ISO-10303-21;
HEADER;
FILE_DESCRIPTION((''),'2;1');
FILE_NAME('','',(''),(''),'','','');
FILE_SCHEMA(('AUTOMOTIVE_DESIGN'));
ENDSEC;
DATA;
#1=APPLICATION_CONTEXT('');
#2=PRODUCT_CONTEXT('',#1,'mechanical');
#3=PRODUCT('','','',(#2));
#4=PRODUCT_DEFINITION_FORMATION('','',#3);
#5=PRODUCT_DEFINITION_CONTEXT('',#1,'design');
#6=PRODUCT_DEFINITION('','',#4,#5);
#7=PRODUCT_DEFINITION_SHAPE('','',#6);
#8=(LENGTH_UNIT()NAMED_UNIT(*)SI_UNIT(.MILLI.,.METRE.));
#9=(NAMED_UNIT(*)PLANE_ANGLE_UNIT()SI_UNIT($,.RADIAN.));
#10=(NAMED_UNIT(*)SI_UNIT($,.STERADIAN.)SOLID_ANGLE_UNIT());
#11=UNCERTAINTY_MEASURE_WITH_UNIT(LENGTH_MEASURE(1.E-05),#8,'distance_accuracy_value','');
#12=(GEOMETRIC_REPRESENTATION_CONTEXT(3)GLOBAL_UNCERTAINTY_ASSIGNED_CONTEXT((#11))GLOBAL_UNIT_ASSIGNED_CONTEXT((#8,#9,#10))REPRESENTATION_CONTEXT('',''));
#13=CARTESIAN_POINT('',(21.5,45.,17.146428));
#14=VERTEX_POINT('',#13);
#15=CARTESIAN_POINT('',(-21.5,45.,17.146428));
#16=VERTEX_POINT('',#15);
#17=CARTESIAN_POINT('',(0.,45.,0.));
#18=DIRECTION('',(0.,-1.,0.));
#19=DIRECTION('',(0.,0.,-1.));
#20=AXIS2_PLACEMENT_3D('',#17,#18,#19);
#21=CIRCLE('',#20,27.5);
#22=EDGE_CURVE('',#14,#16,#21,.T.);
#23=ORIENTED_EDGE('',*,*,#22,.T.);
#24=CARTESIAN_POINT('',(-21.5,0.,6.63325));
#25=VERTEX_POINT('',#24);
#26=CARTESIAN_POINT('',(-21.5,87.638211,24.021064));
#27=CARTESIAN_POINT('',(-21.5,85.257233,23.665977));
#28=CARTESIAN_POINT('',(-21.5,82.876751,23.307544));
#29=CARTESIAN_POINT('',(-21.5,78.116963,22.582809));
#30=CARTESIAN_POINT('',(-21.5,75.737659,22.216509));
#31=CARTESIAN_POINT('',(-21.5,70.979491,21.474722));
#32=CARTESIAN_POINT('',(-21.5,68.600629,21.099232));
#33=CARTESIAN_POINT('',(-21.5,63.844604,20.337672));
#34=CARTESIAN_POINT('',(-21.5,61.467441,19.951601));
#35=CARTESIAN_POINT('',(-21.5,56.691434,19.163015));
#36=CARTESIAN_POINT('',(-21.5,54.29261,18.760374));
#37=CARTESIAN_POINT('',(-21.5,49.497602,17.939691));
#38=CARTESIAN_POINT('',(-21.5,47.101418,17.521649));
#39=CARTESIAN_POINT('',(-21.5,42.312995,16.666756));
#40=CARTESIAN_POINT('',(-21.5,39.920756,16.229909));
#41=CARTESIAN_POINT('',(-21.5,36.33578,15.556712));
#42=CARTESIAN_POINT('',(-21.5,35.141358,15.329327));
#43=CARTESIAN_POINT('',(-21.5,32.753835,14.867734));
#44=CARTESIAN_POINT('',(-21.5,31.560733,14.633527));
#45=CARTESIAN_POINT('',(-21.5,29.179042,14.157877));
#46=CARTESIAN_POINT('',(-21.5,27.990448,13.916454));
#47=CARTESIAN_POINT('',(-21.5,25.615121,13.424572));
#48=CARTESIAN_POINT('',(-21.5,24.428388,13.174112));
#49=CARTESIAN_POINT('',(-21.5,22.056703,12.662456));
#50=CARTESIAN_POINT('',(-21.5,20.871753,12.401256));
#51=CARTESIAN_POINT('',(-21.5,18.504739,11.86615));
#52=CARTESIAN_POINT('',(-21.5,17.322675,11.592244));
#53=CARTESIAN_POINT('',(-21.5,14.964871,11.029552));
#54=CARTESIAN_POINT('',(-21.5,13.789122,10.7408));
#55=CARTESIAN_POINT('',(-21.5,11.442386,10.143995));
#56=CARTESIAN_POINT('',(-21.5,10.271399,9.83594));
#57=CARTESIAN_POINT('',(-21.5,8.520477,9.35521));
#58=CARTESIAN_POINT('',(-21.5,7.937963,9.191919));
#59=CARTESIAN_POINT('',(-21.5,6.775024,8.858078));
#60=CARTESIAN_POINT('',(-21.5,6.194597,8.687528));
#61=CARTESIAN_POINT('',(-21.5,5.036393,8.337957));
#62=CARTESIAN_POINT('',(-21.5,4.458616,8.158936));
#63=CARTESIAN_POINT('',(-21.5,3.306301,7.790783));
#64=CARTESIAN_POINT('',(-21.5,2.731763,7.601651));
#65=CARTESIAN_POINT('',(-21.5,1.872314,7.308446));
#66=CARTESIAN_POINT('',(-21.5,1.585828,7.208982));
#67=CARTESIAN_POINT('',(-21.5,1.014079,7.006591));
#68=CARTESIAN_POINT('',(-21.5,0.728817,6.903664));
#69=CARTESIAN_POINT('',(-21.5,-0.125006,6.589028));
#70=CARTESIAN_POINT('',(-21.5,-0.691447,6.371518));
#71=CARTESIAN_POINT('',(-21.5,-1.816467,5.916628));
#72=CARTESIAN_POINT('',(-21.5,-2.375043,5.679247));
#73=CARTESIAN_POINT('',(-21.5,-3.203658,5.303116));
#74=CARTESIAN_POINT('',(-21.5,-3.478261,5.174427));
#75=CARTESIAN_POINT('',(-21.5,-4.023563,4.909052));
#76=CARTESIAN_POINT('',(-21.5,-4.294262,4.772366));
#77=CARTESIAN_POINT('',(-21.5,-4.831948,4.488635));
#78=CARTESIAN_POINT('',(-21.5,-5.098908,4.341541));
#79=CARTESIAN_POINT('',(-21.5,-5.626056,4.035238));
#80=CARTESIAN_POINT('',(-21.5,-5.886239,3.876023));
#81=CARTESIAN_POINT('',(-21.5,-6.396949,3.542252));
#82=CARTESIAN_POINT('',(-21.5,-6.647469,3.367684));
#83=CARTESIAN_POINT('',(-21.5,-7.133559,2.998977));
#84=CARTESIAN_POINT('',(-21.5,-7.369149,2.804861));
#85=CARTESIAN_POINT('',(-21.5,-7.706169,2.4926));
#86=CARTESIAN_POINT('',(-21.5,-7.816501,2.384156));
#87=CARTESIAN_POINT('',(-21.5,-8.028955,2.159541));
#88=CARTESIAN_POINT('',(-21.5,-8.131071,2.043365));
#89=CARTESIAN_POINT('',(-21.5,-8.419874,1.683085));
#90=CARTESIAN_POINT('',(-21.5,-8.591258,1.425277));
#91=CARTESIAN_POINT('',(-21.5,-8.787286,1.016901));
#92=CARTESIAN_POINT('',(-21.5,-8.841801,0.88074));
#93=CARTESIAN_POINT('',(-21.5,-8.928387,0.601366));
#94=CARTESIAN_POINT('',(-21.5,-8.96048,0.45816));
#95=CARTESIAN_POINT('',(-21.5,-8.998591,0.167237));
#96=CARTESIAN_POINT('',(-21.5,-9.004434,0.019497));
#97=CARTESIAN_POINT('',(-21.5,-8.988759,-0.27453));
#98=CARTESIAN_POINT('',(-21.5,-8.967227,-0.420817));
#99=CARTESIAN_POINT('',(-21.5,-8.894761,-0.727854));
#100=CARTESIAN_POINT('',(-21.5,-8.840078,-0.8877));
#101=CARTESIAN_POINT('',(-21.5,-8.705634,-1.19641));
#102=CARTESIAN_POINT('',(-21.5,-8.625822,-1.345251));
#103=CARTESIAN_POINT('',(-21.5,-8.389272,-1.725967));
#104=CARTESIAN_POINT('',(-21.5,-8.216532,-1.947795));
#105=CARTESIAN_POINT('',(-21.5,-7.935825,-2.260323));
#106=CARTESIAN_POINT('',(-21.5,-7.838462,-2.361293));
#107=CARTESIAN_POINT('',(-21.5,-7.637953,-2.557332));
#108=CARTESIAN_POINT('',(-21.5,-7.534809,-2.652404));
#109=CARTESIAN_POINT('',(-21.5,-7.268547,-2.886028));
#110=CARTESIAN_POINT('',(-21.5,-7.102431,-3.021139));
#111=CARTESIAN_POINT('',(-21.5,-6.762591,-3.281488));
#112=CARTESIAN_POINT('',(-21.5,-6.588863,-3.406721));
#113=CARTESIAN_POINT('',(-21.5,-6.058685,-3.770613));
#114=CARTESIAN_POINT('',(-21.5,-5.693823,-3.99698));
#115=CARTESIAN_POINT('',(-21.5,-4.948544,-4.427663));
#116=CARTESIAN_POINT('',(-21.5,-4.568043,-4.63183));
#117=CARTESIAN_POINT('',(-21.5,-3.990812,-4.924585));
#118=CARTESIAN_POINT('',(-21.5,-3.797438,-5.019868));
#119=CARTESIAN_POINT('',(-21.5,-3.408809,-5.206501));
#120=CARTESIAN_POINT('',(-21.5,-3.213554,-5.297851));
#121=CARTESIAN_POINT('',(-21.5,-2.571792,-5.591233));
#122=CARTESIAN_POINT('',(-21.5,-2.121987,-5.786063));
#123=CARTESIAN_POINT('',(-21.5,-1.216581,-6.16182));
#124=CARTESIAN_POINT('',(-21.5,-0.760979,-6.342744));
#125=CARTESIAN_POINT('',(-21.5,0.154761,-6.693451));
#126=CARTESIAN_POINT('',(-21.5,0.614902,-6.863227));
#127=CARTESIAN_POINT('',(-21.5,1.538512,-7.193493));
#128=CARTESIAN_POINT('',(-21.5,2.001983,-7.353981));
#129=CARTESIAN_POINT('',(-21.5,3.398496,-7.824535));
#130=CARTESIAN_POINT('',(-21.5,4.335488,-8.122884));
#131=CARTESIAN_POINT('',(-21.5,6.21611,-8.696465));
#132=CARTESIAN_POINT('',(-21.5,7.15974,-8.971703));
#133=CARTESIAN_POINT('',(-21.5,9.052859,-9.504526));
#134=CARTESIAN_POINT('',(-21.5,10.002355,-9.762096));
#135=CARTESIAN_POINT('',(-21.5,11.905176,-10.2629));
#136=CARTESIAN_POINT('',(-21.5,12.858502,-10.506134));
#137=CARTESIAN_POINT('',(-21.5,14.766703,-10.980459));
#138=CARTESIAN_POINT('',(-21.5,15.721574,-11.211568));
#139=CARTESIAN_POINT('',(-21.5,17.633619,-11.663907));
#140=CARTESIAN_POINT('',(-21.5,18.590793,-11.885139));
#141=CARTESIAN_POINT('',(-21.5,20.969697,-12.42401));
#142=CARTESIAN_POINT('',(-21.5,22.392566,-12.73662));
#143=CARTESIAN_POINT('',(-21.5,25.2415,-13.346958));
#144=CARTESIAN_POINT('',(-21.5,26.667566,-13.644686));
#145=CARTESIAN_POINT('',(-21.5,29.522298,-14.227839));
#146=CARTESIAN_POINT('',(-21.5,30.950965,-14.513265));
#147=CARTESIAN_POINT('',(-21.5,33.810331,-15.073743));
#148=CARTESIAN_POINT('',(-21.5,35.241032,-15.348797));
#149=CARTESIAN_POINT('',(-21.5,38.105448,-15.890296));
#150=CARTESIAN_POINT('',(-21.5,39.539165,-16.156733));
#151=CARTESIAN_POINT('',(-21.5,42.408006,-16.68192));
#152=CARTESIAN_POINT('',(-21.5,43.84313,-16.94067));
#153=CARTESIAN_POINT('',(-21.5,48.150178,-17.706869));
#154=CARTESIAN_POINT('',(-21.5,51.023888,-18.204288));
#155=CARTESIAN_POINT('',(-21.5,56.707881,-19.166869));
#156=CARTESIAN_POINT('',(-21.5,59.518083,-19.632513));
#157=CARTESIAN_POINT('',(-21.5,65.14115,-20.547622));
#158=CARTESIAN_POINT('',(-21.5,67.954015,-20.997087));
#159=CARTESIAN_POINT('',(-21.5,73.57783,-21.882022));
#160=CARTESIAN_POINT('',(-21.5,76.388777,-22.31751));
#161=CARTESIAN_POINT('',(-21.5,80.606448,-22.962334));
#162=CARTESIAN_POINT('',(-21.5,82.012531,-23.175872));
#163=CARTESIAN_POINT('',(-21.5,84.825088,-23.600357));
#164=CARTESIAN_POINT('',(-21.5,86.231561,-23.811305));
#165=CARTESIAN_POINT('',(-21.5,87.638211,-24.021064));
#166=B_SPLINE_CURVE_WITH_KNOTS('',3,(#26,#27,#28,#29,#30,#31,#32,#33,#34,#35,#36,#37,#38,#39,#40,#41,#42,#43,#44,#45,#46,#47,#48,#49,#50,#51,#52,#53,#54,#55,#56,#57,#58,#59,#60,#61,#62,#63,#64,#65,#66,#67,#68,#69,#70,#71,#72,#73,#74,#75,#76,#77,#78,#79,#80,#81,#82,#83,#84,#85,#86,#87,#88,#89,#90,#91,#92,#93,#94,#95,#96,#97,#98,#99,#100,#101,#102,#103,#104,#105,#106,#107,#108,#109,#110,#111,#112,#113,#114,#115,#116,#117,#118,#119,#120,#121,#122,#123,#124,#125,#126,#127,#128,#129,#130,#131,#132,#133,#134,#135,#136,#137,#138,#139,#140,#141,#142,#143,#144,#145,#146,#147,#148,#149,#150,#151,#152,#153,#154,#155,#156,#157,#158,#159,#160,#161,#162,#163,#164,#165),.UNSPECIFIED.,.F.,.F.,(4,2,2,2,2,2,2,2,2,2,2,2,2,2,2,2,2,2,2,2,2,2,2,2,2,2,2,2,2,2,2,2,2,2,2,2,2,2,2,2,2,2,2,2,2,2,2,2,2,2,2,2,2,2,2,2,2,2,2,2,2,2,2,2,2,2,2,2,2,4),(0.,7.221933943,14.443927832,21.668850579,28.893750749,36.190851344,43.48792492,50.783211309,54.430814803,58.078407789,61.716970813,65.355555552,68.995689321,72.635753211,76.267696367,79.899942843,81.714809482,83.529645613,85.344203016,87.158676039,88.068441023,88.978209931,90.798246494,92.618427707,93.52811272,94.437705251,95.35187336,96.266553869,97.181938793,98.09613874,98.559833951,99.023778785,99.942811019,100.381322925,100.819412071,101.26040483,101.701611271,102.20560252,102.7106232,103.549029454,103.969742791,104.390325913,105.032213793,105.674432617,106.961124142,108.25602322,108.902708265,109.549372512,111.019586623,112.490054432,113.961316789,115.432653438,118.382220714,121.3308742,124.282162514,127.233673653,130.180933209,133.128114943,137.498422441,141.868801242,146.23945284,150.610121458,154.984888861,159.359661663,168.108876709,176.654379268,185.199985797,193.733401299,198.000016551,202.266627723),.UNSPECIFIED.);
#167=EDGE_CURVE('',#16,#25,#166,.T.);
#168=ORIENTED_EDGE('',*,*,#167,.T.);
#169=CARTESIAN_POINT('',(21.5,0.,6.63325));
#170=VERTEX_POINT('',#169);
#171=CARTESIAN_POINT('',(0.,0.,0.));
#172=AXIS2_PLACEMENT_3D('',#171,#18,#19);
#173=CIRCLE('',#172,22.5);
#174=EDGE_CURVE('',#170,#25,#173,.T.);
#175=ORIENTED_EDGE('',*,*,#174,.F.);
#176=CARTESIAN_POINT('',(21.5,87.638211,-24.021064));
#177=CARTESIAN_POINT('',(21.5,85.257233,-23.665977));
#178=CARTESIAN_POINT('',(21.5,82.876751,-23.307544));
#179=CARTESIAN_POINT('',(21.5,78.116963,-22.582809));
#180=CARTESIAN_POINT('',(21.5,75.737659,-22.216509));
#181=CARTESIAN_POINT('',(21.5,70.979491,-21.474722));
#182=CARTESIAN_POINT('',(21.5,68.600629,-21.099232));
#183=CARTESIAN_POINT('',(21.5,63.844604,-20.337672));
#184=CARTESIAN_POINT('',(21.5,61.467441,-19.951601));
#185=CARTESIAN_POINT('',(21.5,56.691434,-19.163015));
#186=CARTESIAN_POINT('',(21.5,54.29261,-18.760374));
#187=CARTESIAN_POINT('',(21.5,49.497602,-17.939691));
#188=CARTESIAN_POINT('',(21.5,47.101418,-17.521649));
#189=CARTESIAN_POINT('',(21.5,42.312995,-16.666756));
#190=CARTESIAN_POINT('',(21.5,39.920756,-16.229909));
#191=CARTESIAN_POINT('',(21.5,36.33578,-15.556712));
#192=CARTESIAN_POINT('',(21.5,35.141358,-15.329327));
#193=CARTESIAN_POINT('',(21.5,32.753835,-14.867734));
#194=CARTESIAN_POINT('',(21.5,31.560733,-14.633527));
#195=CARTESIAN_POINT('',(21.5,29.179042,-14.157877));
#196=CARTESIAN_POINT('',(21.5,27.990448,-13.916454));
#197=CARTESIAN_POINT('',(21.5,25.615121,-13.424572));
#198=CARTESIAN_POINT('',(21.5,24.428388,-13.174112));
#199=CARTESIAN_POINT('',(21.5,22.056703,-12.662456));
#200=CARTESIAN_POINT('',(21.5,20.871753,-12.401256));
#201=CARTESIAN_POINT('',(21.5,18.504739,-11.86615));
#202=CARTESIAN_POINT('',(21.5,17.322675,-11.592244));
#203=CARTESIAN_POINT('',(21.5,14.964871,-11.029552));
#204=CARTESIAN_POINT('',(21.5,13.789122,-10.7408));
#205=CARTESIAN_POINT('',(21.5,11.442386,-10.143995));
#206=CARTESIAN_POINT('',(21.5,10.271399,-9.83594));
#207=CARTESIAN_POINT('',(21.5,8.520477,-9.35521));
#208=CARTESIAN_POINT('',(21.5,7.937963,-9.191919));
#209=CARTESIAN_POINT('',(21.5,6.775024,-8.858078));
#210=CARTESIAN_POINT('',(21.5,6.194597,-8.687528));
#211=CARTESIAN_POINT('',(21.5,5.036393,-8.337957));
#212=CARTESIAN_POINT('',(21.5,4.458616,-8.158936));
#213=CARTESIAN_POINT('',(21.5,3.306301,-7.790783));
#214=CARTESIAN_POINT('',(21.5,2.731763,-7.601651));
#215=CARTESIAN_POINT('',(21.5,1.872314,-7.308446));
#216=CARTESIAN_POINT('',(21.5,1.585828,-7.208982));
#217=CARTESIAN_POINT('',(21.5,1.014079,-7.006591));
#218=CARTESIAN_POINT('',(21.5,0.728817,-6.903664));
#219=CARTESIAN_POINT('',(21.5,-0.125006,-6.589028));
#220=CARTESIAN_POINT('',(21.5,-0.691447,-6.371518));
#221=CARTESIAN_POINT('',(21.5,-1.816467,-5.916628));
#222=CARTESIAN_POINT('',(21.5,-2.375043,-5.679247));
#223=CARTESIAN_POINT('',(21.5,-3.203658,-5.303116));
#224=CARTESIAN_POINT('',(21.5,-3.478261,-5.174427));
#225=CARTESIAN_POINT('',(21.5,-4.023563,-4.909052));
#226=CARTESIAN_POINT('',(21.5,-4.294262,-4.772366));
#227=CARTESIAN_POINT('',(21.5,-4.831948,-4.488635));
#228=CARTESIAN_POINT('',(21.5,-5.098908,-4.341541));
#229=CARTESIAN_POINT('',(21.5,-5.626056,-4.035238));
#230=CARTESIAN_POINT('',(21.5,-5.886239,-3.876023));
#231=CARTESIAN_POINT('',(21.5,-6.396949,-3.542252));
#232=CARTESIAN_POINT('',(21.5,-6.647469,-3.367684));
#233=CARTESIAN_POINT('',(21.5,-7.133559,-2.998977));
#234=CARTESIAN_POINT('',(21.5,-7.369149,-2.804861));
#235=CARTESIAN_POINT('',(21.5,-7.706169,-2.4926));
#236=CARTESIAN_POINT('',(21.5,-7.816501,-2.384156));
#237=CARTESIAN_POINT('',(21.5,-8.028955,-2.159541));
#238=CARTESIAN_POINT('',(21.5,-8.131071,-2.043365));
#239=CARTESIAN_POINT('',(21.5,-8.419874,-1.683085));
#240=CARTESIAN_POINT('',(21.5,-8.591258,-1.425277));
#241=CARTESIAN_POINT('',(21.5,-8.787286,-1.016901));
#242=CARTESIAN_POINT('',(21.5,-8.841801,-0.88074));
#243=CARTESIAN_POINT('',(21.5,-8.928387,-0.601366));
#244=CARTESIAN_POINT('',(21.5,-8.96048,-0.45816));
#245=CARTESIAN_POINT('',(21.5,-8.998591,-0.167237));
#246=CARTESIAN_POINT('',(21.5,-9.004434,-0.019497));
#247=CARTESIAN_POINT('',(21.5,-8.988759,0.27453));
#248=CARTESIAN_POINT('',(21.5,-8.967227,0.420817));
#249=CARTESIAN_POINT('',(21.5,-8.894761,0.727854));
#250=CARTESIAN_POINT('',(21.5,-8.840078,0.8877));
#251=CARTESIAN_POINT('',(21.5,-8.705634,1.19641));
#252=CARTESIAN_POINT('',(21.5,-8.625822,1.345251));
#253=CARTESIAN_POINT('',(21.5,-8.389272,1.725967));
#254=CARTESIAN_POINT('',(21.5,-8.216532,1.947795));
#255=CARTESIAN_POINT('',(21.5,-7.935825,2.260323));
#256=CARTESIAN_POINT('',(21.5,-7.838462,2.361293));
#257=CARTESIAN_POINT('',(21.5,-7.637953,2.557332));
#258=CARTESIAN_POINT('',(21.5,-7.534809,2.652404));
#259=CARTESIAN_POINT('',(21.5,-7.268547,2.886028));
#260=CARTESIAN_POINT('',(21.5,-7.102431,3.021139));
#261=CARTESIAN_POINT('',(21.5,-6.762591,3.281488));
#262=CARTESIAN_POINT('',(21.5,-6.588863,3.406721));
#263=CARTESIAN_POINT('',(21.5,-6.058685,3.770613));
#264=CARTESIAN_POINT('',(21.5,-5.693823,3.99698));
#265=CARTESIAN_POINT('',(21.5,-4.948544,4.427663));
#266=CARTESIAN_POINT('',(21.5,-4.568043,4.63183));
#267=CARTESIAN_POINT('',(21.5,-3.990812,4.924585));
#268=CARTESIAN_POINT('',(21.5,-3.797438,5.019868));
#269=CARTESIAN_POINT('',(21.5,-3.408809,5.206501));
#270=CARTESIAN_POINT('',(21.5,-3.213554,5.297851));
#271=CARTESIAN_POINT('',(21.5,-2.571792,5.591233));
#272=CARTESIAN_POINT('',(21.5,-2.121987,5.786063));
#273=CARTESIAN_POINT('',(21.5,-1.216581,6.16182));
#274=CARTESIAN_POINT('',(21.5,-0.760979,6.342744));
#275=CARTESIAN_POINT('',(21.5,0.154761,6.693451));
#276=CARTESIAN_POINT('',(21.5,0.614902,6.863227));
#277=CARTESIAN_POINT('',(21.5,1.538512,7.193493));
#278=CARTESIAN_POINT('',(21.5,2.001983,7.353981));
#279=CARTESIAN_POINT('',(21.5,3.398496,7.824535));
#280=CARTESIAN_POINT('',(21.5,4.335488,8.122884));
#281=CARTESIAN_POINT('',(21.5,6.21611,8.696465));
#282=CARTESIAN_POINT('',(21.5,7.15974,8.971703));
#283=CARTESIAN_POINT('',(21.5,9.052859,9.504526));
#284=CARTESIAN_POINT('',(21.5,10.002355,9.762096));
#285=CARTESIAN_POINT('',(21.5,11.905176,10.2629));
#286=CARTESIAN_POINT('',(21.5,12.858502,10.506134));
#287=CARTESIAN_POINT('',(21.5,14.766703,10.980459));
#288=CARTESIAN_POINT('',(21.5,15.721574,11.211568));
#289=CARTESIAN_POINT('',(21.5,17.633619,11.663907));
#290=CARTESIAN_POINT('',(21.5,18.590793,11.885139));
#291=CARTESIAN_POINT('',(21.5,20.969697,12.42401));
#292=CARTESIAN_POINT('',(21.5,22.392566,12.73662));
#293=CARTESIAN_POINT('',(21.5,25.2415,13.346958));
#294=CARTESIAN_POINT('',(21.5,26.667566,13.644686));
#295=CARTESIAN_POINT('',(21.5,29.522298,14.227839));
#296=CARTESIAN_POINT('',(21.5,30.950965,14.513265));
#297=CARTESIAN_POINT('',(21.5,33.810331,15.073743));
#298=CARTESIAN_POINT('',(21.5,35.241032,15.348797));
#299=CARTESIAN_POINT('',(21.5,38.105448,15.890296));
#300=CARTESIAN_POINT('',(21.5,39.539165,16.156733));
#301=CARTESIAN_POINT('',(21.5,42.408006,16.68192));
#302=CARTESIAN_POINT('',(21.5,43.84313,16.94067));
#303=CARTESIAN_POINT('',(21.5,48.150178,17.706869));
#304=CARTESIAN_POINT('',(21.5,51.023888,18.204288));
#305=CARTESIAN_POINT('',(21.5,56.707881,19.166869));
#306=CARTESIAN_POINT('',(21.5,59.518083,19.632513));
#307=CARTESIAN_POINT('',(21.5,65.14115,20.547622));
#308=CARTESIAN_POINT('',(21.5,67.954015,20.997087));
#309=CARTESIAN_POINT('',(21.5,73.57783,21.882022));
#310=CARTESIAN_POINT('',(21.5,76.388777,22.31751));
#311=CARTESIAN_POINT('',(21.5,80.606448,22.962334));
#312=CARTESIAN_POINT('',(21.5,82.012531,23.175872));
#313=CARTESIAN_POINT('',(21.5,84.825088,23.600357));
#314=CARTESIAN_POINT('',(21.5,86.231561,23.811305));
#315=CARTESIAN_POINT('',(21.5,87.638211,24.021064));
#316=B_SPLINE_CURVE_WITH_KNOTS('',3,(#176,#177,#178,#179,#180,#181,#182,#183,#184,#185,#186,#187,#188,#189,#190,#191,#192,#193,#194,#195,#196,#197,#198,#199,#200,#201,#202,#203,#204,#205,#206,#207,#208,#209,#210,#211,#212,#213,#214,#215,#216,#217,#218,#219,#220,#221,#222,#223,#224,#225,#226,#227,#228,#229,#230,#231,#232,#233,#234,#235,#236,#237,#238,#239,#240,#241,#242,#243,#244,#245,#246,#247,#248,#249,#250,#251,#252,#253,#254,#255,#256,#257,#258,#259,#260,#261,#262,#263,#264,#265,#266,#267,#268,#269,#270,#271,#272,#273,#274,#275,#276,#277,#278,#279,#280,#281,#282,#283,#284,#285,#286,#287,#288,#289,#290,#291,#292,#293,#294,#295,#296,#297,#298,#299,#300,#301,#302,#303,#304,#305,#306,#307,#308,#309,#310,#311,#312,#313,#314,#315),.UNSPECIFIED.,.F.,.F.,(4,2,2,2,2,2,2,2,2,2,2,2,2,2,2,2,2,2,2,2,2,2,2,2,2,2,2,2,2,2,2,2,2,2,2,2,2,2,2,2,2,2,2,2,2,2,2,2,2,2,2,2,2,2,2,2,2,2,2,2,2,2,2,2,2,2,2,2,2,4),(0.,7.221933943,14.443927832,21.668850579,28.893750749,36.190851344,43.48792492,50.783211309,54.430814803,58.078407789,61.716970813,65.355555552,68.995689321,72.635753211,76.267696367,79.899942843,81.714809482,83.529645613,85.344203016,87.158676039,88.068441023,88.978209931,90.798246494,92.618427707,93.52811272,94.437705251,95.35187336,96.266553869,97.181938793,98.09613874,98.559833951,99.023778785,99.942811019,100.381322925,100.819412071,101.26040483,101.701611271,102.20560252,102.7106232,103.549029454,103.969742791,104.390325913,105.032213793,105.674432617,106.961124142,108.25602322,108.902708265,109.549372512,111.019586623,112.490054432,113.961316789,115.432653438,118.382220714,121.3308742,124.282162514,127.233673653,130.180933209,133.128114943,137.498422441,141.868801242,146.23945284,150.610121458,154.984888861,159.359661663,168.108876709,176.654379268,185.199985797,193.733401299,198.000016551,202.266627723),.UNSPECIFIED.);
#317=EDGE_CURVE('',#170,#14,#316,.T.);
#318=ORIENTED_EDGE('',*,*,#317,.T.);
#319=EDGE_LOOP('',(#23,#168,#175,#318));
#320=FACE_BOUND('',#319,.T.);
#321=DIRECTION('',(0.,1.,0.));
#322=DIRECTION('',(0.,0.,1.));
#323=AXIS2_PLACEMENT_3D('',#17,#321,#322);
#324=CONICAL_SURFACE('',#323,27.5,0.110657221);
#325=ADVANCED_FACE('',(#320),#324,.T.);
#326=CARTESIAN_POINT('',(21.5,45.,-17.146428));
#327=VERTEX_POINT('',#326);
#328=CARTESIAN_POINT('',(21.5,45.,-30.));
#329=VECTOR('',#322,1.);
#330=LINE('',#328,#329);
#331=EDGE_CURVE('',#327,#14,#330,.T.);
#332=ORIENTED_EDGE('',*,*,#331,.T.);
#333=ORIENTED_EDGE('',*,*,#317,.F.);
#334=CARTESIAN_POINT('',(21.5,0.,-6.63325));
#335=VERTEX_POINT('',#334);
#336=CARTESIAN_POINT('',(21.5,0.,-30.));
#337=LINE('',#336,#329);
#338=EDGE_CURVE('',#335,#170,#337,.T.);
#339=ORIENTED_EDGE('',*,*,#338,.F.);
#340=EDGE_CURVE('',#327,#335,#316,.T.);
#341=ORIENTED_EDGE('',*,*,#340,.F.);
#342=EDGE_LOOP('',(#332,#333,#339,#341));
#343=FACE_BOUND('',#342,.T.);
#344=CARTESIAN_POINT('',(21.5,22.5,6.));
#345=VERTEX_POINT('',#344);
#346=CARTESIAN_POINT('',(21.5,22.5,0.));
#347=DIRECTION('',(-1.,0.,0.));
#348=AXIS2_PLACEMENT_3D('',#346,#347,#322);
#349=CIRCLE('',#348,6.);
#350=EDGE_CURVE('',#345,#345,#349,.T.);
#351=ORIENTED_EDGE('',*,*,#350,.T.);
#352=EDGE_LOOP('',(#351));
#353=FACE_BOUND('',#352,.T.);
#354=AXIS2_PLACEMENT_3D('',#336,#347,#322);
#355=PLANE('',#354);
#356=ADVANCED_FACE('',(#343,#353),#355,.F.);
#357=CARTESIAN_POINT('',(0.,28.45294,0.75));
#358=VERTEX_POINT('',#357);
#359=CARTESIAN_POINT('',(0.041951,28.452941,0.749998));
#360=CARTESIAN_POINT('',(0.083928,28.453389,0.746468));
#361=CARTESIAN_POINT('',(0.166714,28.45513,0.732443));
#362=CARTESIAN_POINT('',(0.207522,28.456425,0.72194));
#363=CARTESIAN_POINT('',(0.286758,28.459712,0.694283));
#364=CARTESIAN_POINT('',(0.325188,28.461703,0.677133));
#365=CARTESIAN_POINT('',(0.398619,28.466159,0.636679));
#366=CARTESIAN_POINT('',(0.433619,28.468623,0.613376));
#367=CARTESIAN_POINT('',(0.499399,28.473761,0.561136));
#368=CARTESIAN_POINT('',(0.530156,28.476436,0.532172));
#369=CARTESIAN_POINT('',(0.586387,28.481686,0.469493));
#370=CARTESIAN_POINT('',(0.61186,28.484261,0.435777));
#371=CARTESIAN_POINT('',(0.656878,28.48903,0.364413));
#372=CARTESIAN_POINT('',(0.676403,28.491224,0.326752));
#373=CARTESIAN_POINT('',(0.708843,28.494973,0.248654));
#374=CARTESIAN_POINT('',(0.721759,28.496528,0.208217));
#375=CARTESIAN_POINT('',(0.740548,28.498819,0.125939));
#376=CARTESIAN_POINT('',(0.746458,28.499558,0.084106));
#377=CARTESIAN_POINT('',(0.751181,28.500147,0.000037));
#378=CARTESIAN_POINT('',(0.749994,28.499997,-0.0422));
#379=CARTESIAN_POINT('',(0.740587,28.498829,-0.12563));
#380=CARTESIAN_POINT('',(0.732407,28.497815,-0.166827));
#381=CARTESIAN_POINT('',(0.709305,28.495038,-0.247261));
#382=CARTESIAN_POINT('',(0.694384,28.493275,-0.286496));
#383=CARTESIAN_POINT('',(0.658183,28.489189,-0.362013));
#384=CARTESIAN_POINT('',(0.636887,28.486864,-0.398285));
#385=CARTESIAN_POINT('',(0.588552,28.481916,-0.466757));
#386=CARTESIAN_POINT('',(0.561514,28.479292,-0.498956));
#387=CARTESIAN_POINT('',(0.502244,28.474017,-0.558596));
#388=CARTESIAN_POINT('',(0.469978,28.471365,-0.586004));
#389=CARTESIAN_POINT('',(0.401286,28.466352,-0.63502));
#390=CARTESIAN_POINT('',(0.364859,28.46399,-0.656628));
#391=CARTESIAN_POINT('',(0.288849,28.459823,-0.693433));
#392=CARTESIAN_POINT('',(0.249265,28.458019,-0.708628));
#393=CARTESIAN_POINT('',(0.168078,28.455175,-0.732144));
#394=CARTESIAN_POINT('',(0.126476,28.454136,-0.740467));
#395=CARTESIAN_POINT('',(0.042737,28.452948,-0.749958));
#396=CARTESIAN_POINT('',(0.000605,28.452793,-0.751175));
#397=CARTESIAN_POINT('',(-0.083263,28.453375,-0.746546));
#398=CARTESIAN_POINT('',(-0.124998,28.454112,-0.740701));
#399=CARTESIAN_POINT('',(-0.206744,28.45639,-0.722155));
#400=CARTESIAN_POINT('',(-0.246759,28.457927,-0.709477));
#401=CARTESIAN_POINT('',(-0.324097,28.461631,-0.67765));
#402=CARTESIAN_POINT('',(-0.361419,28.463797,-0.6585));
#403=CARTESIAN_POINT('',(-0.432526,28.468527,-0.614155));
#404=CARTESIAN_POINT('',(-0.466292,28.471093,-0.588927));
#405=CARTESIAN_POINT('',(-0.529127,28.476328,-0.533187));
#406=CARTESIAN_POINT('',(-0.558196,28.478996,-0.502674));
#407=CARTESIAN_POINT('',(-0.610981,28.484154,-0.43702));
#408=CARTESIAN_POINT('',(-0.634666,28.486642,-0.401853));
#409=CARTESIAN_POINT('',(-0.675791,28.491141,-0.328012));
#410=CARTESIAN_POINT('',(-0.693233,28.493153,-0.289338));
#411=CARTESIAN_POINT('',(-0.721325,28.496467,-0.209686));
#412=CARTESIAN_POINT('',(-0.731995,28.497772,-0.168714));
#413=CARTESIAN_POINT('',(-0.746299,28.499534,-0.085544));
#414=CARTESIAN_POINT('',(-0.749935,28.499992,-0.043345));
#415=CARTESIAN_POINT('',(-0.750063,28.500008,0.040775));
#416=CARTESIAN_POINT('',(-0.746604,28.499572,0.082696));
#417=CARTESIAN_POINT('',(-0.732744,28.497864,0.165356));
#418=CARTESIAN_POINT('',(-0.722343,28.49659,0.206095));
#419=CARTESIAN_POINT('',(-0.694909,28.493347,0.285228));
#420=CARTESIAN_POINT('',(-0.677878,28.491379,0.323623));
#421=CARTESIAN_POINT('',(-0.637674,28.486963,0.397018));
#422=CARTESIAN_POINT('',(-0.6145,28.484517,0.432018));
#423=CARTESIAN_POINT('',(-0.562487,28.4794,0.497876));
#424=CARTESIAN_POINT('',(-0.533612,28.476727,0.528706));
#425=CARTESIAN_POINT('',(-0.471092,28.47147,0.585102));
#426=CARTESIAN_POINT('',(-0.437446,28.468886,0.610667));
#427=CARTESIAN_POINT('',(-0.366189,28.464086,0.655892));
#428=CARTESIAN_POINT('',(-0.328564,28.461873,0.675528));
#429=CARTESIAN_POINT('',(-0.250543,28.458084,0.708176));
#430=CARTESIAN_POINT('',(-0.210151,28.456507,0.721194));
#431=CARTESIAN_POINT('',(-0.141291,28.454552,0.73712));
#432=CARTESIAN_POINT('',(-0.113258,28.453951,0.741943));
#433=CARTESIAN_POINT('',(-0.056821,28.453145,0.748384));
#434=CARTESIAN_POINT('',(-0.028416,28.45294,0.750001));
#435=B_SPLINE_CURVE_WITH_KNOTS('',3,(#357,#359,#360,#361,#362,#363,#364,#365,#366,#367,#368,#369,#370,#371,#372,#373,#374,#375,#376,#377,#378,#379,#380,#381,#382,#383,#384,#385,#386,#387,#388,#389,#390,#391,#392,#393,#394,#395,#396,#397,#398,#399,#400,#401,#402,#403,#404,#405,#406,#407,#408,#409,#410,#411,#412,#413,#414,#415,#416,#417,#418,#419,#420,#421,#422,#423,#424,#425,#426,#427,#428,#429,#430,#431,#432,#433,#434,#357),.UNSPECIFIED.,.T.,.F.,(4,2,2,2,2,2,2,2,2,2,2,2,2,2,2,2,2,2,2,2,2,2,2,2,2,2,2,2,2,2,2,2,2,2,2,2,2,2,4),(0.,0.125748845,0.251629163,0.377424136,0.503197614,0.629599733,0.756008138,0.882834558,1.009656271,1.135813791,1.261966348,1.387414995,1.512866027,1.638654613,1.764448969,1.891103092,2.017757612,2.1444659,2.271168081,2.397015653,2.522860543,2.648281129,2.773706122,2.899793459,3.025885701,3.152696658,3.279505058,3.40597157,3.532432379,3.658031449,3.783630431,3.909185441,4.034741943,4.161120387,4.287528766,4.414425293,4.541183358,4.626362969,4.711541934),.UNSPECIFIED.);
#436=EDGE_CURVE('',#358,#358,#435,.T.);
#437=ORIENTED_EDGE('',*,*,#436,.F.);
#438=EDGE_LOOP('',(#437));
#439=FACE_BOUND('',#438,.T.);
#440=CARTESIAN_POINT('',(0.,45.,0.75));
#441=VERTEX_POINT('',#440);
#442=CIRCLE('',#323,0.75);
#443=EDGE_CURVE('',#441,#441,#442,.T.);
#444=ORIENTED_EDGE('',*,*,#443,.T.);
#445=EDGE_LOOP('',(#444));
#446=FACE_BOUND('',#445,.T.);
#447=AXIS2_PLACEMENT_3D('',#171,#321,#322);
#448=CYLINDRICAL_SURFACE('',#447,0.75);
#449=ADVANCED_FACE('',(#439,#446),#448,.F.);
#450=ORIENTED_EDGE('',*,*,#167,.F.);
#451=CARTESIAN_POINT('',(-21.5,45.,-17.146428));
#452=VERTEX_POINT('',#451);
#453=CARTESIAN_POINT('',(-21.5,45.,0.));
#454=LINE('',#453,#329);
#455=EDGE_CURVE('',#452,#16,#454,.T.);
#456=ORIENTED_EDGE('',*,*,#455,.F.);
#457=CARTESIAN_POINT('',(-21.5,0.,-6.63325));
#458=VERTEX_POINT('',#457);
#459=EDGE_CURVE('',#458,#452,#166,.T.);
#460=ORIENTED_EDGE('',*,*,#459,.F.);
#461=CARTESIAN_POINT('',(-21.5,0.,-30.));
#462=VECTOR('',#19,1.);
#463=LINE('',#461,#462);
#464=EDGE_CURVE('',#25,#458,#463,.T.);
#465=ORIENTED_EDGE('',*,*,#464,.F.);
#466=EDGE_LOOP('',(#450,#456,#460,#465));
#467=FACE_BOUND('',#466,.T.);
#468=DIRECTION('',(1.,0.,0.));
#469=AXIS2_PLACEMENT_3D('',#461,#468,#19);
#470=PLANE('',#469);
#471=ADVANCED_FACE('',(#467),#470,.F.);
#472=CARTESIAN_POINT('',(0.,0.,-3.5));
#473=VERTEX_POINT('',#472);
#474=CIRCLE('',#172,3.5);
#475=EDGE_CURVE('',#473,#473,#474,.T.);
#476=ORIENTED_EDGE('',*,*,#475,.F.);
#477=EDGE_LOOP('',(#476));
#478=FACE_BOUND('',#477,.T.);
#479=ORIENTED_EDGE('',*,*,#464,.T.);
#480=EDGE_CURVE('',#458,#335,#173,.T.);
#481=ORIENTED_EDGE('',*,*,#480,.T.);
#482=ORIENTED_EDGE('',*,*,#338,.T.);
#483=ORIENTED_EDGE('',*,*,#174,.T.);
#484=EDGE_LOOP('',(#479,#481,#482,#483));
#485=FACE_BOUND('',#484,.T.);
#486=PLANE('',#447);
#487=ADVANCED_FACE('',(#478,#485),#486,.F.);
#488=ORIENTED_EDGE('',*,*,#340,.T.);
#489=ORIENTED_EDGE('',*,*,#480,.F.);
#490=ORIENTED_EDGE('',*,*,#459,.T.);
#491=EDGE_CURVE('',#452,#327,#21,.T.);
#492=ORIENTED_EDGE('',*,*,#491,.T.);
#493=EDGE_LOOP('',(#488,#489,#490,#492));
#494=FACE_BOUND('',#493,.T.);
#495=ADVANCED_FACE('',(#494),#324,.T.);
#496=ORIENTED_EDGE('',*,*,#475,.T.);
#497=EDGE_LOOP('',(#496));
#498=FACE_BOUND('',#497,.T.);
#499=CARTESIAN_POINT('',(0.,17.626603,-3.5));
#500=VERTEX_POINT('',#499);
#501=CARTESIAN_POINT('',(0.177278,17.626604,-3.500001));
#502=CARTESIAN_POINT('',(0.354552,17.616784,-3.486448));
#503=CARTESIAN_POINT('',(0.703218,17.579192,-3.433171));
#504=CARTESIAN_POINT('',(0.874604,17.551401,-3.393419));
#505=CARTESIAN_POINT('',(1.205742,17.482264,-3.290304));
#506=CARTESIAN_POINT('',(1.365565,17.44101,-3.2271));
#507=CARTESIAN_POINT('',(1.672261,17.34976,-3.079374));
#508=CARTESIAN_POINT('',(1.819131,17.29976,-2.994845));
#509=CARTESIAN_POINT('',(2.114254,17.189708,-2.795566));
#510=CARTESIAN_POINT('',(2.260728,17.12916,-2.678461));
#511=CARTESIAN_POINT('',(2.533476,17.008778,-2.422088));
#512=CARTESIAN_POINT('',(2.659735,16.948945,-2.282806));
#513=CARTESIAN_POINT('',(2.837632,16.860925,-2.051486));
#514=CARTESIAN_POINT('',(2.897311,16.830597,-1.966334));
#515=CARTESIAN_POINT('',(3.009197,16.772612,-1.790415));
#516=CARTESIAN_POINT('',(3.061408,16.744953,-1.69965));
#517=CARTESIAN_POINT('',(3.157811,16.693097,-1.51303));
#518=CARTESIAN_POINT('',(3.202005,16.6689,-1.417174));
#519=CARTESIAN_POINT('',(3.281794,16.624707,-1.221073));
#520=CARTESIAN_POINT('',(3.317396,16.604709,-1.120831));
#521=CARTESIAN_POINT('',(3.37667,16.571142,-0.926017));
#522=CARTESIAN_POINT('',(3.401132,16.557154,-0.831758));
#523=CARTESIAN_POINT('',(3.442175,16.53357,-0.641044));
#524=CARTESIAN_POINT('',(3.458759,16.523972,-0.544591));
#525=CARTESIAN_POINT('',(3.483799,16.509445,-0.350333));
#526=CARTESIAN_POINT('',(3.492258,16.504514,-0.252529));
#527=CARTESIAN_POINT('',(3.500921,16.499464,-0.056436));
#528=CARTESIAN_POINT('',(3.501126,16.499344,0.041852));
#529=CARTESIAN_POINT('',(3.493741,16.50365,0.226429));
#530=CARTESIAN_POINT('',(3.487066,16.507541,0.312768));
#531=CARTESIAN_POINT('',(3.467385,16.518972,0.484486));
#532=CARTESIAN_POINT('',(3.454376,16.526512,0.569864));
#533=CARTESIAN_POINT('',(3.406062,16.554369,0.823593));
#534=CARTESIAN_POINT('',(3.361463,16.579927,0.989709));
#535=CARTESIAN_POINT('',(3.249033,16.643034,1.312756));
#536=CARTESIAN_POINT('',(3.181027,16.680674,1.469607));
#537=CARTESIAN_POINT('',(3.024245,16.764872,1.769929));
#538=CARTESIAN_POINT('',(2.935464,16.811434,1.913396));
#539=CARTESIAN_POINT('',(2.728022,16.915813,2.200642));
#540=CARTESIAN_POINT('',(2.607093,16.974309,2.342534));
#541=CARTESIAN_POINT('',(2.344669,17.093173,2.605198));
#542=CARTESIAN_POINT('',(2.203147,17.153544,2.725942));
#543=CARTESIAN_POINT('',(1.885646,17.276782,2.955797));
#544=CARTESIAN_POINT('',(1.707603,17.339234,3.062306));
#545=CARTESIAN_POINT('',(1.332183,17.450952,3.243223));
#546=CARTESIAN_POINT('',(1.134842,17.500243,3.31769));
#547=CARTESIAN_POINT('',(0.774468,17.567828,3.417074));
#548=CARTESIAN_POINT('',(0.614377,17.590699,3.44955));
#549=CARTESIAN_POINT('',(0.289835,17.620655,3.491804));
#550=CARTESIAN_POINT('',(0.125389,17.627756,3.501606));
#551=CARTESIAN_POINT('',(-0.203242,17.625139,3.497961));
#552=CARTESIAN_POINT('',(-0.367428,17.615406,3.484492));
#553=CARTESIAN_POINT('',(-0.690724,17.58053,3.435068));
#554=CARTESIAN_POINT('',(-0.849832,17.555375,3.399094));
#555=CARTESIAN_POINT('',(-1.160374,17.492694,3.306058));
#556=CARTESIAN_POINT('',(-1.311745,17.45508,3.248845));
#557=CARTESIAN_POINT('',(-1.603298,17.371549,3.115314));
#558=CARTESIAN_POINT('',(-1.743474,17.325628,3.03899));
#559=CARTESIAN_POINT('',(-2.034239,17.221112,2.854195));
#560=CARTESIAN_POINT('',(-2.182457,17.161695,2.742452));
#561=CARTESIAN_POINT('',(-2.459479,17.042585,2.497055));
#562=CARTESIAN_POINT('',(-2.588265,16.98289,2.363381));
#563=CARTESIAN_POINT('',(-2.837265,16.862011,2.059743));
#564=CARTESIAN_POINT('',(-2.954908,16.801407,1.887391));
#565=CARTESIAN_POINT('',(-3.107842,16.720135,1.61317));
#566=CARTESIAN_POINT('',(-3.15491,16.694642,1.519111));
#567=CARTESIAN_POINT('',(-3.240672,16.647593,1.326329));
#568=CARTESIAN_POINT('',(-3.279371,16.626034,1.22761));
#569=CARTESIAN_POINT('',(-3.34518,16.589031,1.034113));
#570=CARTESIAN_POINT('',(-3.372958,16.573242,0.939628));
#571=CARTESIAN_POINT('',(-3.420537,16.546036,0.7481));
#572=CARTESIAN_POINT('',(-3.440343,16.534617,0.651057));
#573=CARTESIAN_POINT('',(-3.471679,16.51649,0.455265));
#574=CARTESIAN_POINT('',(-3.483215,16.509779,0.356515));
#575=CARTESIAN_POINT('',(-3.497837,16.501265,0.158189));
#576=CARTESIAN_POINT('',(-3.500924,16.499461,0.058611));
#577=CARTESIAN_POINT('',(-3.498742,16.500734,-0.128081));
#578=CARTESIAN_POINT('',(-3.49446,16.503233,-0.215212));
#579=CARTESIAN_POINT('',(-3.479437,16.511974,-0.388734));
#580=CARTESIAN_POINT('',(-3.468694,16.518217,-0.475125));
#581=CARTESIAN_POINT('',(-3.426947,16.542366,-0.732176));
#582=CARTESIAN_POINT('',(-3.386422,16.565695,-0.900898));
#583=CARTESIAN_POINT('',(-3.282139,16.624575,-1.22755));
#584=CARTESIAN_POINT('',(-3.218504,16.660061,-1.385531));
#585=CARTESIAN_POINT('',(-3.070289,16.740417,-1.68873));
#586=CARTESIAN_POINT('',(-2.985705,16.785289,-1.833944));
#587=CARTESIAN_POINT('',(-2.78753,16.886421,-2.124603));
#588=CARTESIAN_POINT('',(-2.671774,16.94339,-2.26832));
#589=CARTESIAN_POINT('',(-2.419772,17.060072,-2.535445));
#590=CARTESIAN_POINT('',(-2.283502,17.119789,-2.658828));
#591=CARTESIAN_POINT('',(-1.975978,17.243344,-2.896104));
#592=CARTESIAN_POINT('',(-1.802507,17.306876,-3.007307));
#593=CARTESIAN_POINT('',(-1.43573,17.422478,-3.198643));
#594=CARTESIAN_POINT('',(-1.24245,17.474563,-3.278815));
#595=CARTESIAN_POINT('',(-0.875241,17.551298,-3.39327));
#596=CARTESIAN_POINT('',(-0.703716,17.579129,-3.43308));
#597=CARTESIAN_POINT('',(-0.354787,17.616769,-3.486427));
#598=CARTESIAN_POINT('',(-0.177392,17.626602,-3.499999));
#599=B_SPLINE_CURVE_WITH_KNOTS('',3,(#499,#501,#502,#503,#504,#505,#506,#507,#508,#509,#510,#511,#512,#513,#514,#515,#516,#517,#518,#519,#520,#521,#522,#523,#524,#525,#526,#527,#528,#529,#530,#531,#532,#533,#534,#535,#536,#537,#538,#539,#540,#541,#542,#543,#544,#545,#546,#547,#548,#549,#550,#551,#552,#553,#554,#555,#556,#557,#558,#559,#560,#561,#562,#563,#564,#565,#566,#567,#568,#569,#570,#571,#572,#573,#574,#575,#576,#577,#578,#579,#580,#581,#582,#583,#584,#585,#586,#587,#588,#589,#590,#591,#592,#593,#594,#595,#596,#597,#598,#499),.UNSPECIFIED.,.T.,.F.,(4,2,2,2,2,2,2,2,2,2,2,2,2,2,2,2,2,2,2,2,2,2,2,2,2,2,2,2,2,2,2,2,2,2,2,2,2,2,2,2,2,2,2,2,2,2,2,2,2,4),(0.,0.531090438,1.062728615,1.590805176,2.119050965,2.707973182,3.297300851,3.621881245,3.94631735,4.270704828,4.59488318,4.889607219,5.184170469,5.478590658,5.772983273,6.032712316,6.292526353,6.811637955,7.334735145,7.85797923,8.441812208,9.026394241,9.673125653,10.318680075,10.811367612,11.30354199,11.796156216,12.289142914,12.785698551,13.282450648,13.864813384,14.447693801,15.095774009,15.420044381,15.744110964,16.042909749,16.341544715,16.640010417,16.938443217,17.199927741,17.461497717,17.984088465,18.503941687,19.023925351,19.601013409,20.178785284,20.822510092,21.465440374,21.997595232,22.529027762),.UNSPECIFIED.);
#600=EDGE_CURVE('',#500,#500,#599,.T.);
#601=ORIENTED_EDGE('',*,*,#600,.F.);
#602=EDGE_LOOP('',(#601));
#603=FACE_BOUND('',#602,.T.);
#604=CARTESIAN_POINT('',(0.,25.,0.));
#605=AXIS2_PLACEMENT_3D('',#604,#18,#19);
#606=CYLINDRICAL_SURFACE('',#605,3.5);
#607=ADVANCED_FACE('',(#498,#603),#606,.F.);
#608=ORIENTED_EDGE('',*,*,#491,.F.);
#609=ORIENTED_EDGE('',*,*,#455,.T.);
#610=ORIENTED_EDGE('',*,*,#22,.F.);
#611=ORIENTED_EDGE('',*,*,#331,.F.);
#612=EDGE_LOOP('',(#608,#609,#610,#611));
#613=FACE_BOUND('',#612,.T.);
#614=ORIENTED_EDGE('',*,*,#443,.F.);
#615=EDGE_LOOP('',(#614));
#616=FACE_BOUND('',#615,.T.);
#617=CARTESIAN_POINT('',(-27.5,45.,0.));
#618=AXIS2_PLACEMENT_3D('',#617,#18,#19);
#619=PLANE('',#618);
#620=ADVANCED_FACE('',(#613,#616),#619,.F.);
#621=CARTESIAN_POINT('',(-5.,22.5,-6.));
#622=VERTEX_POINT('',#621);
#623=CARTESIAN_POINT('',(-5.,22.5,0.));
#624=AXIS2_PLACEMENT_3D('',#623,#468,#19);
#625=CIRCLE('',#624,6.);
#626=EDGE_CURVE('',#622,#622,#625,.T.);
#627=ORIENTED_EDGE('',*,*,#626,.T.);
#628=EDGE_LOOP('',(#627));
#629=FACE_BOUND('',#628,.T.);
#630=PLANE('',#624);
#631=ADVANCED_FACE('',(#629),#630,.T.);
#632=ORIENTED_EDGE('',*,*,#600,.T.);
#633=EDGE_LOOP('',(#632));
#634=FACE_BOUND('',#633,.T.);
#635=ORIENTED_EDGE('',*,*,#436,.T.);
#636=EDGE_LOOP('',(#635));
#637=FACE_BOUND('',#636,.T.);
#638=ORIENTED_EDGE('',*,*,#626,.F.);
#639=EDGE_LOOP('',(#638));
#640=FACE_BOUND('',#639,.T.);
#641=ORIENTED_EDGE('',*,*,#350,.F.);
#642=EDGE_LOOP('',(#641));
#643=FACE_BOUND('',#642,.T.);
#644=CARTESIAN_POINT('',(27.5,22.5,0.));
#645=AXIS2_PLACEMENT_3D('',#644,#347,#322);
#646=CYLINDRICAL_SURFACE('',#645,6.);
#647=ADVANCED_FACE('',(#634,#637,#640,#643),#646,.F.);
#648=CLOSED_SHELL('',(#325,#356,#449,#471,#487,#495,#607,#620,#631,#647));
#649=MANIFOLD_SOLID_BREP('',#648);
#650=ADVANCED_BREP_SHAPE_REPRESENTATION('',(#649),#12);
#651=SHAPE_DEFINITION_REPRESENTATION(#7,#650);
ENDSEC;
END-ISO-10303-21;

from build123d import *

# Parameters (mm, degrees)
SKIZZE2_R                            = 0.75
SCHNITT_LINEAR_AUSTRAGEN1_DEPTH      = 60.476886267
SKIZZE3_R                            = 3.5
SCHNITT_LINEAR_AUSTRAGEN2_DEPTH      = 25
SCHNITT_LINEAR_AUSTRAGEN3_DEPTH      = 60.476886267
SCHNITT_LINEAR_AUSTRAGEN3_DEPTH_BACK = 5
SKIZZE4_R                            = 6
SKIZZE5_W                            = 10
SKIZZE5_H                            = 60
SCHNITT_LINEAR_AUSTRAGEN4_DEPTH      = 60.476886435


with BuildPart() as part:
    # Skizze1 → Rotation1 (revolve)
    with BuildSketch(Plane.XY, mode=Mode.PRIVATE) as rotation1_sk:
        Polygon((0, 0), (-22.5, 0), (-27.5, 45), (0, 45), align=None)
    revolve(rotation1_sk.sketch.rotate(Axis((0, 0, 0), (0, 1, 0)), 270), axis=Axis((0, 0, 0), (0, 1, 0)))

    # Skizze2 → Schnitt-Linear austragen1 (cut, through all)
    with BuildSketch(Plane(origin=(0, 45, 0), x_dir=(1, 0, 0), z_dir=(0, 1, 0))):
        with Locations(Location((0, 0, 0), (0, 0, 270))):
            Circle(SKIZZE2_R)
    extrude(amount=-SCHNITT_LINEAR_AUSTRAGEN1_DEPTH, mode=Mode.SUBTRACT)

    # Skizze3 → Schnitt-Linear austragen2 (cut)
    with BuildSketch(Plane.XZ):
        with Locations(Location((0, 0, 0), (0, 0, 270))):
            Circle(SKIZZE3_R)
    extrude(amount=-SCHNITT_LINEAR_AUSTRAGEN2_DEPTH, mode=Mode.SUBTRACT)

    # Skizze4 → Schnitt-Linear austragen3 (cut, two sides: drawn at the far end of the back side and taken through both)
    with BuildSketch(Plane(origin=(0, 0, 0), x_dir=(0, 0, -1), z_dir=(1, 0, 0)).offset(-SCHNITT_LINEAR_AUSTRAGEN3_DEPTH_BACK)):
        with Locations(Location((0, 22.5, 0), (0, 0, 303.25844047))):
            Circle(SKIZZE4_R)
    extrude(amount=SCHNITT_LINEAR_AUSTRAGEN3_DEPTH + SCHNITT_LINEAR_AUSTRAGEN3_DEPTH_BACK, mode=Mode.SUBTRACT)

    # Skizze5 → Schnitt-Linear austragen4 (cut, through all)
    with BuildSketch(Plane(origin=(0, 45, 0), x_dir=(1, 0, 0), z_dir=(0, 1, 0))):
        with Locations((-26.5, 0)):
            Rectangle(SKIZZE5_W, SKIZZE5_H)
        with Locations((26.5, 0)):
            Rectangle(SKIZZE5_W, SKIZZE5_H)
    extrude(amount=-SCHNITT_LINEAR_AUSTRAGEN4_DEPTH, mode=Mode.SUBTRACT)


solid = part.part
